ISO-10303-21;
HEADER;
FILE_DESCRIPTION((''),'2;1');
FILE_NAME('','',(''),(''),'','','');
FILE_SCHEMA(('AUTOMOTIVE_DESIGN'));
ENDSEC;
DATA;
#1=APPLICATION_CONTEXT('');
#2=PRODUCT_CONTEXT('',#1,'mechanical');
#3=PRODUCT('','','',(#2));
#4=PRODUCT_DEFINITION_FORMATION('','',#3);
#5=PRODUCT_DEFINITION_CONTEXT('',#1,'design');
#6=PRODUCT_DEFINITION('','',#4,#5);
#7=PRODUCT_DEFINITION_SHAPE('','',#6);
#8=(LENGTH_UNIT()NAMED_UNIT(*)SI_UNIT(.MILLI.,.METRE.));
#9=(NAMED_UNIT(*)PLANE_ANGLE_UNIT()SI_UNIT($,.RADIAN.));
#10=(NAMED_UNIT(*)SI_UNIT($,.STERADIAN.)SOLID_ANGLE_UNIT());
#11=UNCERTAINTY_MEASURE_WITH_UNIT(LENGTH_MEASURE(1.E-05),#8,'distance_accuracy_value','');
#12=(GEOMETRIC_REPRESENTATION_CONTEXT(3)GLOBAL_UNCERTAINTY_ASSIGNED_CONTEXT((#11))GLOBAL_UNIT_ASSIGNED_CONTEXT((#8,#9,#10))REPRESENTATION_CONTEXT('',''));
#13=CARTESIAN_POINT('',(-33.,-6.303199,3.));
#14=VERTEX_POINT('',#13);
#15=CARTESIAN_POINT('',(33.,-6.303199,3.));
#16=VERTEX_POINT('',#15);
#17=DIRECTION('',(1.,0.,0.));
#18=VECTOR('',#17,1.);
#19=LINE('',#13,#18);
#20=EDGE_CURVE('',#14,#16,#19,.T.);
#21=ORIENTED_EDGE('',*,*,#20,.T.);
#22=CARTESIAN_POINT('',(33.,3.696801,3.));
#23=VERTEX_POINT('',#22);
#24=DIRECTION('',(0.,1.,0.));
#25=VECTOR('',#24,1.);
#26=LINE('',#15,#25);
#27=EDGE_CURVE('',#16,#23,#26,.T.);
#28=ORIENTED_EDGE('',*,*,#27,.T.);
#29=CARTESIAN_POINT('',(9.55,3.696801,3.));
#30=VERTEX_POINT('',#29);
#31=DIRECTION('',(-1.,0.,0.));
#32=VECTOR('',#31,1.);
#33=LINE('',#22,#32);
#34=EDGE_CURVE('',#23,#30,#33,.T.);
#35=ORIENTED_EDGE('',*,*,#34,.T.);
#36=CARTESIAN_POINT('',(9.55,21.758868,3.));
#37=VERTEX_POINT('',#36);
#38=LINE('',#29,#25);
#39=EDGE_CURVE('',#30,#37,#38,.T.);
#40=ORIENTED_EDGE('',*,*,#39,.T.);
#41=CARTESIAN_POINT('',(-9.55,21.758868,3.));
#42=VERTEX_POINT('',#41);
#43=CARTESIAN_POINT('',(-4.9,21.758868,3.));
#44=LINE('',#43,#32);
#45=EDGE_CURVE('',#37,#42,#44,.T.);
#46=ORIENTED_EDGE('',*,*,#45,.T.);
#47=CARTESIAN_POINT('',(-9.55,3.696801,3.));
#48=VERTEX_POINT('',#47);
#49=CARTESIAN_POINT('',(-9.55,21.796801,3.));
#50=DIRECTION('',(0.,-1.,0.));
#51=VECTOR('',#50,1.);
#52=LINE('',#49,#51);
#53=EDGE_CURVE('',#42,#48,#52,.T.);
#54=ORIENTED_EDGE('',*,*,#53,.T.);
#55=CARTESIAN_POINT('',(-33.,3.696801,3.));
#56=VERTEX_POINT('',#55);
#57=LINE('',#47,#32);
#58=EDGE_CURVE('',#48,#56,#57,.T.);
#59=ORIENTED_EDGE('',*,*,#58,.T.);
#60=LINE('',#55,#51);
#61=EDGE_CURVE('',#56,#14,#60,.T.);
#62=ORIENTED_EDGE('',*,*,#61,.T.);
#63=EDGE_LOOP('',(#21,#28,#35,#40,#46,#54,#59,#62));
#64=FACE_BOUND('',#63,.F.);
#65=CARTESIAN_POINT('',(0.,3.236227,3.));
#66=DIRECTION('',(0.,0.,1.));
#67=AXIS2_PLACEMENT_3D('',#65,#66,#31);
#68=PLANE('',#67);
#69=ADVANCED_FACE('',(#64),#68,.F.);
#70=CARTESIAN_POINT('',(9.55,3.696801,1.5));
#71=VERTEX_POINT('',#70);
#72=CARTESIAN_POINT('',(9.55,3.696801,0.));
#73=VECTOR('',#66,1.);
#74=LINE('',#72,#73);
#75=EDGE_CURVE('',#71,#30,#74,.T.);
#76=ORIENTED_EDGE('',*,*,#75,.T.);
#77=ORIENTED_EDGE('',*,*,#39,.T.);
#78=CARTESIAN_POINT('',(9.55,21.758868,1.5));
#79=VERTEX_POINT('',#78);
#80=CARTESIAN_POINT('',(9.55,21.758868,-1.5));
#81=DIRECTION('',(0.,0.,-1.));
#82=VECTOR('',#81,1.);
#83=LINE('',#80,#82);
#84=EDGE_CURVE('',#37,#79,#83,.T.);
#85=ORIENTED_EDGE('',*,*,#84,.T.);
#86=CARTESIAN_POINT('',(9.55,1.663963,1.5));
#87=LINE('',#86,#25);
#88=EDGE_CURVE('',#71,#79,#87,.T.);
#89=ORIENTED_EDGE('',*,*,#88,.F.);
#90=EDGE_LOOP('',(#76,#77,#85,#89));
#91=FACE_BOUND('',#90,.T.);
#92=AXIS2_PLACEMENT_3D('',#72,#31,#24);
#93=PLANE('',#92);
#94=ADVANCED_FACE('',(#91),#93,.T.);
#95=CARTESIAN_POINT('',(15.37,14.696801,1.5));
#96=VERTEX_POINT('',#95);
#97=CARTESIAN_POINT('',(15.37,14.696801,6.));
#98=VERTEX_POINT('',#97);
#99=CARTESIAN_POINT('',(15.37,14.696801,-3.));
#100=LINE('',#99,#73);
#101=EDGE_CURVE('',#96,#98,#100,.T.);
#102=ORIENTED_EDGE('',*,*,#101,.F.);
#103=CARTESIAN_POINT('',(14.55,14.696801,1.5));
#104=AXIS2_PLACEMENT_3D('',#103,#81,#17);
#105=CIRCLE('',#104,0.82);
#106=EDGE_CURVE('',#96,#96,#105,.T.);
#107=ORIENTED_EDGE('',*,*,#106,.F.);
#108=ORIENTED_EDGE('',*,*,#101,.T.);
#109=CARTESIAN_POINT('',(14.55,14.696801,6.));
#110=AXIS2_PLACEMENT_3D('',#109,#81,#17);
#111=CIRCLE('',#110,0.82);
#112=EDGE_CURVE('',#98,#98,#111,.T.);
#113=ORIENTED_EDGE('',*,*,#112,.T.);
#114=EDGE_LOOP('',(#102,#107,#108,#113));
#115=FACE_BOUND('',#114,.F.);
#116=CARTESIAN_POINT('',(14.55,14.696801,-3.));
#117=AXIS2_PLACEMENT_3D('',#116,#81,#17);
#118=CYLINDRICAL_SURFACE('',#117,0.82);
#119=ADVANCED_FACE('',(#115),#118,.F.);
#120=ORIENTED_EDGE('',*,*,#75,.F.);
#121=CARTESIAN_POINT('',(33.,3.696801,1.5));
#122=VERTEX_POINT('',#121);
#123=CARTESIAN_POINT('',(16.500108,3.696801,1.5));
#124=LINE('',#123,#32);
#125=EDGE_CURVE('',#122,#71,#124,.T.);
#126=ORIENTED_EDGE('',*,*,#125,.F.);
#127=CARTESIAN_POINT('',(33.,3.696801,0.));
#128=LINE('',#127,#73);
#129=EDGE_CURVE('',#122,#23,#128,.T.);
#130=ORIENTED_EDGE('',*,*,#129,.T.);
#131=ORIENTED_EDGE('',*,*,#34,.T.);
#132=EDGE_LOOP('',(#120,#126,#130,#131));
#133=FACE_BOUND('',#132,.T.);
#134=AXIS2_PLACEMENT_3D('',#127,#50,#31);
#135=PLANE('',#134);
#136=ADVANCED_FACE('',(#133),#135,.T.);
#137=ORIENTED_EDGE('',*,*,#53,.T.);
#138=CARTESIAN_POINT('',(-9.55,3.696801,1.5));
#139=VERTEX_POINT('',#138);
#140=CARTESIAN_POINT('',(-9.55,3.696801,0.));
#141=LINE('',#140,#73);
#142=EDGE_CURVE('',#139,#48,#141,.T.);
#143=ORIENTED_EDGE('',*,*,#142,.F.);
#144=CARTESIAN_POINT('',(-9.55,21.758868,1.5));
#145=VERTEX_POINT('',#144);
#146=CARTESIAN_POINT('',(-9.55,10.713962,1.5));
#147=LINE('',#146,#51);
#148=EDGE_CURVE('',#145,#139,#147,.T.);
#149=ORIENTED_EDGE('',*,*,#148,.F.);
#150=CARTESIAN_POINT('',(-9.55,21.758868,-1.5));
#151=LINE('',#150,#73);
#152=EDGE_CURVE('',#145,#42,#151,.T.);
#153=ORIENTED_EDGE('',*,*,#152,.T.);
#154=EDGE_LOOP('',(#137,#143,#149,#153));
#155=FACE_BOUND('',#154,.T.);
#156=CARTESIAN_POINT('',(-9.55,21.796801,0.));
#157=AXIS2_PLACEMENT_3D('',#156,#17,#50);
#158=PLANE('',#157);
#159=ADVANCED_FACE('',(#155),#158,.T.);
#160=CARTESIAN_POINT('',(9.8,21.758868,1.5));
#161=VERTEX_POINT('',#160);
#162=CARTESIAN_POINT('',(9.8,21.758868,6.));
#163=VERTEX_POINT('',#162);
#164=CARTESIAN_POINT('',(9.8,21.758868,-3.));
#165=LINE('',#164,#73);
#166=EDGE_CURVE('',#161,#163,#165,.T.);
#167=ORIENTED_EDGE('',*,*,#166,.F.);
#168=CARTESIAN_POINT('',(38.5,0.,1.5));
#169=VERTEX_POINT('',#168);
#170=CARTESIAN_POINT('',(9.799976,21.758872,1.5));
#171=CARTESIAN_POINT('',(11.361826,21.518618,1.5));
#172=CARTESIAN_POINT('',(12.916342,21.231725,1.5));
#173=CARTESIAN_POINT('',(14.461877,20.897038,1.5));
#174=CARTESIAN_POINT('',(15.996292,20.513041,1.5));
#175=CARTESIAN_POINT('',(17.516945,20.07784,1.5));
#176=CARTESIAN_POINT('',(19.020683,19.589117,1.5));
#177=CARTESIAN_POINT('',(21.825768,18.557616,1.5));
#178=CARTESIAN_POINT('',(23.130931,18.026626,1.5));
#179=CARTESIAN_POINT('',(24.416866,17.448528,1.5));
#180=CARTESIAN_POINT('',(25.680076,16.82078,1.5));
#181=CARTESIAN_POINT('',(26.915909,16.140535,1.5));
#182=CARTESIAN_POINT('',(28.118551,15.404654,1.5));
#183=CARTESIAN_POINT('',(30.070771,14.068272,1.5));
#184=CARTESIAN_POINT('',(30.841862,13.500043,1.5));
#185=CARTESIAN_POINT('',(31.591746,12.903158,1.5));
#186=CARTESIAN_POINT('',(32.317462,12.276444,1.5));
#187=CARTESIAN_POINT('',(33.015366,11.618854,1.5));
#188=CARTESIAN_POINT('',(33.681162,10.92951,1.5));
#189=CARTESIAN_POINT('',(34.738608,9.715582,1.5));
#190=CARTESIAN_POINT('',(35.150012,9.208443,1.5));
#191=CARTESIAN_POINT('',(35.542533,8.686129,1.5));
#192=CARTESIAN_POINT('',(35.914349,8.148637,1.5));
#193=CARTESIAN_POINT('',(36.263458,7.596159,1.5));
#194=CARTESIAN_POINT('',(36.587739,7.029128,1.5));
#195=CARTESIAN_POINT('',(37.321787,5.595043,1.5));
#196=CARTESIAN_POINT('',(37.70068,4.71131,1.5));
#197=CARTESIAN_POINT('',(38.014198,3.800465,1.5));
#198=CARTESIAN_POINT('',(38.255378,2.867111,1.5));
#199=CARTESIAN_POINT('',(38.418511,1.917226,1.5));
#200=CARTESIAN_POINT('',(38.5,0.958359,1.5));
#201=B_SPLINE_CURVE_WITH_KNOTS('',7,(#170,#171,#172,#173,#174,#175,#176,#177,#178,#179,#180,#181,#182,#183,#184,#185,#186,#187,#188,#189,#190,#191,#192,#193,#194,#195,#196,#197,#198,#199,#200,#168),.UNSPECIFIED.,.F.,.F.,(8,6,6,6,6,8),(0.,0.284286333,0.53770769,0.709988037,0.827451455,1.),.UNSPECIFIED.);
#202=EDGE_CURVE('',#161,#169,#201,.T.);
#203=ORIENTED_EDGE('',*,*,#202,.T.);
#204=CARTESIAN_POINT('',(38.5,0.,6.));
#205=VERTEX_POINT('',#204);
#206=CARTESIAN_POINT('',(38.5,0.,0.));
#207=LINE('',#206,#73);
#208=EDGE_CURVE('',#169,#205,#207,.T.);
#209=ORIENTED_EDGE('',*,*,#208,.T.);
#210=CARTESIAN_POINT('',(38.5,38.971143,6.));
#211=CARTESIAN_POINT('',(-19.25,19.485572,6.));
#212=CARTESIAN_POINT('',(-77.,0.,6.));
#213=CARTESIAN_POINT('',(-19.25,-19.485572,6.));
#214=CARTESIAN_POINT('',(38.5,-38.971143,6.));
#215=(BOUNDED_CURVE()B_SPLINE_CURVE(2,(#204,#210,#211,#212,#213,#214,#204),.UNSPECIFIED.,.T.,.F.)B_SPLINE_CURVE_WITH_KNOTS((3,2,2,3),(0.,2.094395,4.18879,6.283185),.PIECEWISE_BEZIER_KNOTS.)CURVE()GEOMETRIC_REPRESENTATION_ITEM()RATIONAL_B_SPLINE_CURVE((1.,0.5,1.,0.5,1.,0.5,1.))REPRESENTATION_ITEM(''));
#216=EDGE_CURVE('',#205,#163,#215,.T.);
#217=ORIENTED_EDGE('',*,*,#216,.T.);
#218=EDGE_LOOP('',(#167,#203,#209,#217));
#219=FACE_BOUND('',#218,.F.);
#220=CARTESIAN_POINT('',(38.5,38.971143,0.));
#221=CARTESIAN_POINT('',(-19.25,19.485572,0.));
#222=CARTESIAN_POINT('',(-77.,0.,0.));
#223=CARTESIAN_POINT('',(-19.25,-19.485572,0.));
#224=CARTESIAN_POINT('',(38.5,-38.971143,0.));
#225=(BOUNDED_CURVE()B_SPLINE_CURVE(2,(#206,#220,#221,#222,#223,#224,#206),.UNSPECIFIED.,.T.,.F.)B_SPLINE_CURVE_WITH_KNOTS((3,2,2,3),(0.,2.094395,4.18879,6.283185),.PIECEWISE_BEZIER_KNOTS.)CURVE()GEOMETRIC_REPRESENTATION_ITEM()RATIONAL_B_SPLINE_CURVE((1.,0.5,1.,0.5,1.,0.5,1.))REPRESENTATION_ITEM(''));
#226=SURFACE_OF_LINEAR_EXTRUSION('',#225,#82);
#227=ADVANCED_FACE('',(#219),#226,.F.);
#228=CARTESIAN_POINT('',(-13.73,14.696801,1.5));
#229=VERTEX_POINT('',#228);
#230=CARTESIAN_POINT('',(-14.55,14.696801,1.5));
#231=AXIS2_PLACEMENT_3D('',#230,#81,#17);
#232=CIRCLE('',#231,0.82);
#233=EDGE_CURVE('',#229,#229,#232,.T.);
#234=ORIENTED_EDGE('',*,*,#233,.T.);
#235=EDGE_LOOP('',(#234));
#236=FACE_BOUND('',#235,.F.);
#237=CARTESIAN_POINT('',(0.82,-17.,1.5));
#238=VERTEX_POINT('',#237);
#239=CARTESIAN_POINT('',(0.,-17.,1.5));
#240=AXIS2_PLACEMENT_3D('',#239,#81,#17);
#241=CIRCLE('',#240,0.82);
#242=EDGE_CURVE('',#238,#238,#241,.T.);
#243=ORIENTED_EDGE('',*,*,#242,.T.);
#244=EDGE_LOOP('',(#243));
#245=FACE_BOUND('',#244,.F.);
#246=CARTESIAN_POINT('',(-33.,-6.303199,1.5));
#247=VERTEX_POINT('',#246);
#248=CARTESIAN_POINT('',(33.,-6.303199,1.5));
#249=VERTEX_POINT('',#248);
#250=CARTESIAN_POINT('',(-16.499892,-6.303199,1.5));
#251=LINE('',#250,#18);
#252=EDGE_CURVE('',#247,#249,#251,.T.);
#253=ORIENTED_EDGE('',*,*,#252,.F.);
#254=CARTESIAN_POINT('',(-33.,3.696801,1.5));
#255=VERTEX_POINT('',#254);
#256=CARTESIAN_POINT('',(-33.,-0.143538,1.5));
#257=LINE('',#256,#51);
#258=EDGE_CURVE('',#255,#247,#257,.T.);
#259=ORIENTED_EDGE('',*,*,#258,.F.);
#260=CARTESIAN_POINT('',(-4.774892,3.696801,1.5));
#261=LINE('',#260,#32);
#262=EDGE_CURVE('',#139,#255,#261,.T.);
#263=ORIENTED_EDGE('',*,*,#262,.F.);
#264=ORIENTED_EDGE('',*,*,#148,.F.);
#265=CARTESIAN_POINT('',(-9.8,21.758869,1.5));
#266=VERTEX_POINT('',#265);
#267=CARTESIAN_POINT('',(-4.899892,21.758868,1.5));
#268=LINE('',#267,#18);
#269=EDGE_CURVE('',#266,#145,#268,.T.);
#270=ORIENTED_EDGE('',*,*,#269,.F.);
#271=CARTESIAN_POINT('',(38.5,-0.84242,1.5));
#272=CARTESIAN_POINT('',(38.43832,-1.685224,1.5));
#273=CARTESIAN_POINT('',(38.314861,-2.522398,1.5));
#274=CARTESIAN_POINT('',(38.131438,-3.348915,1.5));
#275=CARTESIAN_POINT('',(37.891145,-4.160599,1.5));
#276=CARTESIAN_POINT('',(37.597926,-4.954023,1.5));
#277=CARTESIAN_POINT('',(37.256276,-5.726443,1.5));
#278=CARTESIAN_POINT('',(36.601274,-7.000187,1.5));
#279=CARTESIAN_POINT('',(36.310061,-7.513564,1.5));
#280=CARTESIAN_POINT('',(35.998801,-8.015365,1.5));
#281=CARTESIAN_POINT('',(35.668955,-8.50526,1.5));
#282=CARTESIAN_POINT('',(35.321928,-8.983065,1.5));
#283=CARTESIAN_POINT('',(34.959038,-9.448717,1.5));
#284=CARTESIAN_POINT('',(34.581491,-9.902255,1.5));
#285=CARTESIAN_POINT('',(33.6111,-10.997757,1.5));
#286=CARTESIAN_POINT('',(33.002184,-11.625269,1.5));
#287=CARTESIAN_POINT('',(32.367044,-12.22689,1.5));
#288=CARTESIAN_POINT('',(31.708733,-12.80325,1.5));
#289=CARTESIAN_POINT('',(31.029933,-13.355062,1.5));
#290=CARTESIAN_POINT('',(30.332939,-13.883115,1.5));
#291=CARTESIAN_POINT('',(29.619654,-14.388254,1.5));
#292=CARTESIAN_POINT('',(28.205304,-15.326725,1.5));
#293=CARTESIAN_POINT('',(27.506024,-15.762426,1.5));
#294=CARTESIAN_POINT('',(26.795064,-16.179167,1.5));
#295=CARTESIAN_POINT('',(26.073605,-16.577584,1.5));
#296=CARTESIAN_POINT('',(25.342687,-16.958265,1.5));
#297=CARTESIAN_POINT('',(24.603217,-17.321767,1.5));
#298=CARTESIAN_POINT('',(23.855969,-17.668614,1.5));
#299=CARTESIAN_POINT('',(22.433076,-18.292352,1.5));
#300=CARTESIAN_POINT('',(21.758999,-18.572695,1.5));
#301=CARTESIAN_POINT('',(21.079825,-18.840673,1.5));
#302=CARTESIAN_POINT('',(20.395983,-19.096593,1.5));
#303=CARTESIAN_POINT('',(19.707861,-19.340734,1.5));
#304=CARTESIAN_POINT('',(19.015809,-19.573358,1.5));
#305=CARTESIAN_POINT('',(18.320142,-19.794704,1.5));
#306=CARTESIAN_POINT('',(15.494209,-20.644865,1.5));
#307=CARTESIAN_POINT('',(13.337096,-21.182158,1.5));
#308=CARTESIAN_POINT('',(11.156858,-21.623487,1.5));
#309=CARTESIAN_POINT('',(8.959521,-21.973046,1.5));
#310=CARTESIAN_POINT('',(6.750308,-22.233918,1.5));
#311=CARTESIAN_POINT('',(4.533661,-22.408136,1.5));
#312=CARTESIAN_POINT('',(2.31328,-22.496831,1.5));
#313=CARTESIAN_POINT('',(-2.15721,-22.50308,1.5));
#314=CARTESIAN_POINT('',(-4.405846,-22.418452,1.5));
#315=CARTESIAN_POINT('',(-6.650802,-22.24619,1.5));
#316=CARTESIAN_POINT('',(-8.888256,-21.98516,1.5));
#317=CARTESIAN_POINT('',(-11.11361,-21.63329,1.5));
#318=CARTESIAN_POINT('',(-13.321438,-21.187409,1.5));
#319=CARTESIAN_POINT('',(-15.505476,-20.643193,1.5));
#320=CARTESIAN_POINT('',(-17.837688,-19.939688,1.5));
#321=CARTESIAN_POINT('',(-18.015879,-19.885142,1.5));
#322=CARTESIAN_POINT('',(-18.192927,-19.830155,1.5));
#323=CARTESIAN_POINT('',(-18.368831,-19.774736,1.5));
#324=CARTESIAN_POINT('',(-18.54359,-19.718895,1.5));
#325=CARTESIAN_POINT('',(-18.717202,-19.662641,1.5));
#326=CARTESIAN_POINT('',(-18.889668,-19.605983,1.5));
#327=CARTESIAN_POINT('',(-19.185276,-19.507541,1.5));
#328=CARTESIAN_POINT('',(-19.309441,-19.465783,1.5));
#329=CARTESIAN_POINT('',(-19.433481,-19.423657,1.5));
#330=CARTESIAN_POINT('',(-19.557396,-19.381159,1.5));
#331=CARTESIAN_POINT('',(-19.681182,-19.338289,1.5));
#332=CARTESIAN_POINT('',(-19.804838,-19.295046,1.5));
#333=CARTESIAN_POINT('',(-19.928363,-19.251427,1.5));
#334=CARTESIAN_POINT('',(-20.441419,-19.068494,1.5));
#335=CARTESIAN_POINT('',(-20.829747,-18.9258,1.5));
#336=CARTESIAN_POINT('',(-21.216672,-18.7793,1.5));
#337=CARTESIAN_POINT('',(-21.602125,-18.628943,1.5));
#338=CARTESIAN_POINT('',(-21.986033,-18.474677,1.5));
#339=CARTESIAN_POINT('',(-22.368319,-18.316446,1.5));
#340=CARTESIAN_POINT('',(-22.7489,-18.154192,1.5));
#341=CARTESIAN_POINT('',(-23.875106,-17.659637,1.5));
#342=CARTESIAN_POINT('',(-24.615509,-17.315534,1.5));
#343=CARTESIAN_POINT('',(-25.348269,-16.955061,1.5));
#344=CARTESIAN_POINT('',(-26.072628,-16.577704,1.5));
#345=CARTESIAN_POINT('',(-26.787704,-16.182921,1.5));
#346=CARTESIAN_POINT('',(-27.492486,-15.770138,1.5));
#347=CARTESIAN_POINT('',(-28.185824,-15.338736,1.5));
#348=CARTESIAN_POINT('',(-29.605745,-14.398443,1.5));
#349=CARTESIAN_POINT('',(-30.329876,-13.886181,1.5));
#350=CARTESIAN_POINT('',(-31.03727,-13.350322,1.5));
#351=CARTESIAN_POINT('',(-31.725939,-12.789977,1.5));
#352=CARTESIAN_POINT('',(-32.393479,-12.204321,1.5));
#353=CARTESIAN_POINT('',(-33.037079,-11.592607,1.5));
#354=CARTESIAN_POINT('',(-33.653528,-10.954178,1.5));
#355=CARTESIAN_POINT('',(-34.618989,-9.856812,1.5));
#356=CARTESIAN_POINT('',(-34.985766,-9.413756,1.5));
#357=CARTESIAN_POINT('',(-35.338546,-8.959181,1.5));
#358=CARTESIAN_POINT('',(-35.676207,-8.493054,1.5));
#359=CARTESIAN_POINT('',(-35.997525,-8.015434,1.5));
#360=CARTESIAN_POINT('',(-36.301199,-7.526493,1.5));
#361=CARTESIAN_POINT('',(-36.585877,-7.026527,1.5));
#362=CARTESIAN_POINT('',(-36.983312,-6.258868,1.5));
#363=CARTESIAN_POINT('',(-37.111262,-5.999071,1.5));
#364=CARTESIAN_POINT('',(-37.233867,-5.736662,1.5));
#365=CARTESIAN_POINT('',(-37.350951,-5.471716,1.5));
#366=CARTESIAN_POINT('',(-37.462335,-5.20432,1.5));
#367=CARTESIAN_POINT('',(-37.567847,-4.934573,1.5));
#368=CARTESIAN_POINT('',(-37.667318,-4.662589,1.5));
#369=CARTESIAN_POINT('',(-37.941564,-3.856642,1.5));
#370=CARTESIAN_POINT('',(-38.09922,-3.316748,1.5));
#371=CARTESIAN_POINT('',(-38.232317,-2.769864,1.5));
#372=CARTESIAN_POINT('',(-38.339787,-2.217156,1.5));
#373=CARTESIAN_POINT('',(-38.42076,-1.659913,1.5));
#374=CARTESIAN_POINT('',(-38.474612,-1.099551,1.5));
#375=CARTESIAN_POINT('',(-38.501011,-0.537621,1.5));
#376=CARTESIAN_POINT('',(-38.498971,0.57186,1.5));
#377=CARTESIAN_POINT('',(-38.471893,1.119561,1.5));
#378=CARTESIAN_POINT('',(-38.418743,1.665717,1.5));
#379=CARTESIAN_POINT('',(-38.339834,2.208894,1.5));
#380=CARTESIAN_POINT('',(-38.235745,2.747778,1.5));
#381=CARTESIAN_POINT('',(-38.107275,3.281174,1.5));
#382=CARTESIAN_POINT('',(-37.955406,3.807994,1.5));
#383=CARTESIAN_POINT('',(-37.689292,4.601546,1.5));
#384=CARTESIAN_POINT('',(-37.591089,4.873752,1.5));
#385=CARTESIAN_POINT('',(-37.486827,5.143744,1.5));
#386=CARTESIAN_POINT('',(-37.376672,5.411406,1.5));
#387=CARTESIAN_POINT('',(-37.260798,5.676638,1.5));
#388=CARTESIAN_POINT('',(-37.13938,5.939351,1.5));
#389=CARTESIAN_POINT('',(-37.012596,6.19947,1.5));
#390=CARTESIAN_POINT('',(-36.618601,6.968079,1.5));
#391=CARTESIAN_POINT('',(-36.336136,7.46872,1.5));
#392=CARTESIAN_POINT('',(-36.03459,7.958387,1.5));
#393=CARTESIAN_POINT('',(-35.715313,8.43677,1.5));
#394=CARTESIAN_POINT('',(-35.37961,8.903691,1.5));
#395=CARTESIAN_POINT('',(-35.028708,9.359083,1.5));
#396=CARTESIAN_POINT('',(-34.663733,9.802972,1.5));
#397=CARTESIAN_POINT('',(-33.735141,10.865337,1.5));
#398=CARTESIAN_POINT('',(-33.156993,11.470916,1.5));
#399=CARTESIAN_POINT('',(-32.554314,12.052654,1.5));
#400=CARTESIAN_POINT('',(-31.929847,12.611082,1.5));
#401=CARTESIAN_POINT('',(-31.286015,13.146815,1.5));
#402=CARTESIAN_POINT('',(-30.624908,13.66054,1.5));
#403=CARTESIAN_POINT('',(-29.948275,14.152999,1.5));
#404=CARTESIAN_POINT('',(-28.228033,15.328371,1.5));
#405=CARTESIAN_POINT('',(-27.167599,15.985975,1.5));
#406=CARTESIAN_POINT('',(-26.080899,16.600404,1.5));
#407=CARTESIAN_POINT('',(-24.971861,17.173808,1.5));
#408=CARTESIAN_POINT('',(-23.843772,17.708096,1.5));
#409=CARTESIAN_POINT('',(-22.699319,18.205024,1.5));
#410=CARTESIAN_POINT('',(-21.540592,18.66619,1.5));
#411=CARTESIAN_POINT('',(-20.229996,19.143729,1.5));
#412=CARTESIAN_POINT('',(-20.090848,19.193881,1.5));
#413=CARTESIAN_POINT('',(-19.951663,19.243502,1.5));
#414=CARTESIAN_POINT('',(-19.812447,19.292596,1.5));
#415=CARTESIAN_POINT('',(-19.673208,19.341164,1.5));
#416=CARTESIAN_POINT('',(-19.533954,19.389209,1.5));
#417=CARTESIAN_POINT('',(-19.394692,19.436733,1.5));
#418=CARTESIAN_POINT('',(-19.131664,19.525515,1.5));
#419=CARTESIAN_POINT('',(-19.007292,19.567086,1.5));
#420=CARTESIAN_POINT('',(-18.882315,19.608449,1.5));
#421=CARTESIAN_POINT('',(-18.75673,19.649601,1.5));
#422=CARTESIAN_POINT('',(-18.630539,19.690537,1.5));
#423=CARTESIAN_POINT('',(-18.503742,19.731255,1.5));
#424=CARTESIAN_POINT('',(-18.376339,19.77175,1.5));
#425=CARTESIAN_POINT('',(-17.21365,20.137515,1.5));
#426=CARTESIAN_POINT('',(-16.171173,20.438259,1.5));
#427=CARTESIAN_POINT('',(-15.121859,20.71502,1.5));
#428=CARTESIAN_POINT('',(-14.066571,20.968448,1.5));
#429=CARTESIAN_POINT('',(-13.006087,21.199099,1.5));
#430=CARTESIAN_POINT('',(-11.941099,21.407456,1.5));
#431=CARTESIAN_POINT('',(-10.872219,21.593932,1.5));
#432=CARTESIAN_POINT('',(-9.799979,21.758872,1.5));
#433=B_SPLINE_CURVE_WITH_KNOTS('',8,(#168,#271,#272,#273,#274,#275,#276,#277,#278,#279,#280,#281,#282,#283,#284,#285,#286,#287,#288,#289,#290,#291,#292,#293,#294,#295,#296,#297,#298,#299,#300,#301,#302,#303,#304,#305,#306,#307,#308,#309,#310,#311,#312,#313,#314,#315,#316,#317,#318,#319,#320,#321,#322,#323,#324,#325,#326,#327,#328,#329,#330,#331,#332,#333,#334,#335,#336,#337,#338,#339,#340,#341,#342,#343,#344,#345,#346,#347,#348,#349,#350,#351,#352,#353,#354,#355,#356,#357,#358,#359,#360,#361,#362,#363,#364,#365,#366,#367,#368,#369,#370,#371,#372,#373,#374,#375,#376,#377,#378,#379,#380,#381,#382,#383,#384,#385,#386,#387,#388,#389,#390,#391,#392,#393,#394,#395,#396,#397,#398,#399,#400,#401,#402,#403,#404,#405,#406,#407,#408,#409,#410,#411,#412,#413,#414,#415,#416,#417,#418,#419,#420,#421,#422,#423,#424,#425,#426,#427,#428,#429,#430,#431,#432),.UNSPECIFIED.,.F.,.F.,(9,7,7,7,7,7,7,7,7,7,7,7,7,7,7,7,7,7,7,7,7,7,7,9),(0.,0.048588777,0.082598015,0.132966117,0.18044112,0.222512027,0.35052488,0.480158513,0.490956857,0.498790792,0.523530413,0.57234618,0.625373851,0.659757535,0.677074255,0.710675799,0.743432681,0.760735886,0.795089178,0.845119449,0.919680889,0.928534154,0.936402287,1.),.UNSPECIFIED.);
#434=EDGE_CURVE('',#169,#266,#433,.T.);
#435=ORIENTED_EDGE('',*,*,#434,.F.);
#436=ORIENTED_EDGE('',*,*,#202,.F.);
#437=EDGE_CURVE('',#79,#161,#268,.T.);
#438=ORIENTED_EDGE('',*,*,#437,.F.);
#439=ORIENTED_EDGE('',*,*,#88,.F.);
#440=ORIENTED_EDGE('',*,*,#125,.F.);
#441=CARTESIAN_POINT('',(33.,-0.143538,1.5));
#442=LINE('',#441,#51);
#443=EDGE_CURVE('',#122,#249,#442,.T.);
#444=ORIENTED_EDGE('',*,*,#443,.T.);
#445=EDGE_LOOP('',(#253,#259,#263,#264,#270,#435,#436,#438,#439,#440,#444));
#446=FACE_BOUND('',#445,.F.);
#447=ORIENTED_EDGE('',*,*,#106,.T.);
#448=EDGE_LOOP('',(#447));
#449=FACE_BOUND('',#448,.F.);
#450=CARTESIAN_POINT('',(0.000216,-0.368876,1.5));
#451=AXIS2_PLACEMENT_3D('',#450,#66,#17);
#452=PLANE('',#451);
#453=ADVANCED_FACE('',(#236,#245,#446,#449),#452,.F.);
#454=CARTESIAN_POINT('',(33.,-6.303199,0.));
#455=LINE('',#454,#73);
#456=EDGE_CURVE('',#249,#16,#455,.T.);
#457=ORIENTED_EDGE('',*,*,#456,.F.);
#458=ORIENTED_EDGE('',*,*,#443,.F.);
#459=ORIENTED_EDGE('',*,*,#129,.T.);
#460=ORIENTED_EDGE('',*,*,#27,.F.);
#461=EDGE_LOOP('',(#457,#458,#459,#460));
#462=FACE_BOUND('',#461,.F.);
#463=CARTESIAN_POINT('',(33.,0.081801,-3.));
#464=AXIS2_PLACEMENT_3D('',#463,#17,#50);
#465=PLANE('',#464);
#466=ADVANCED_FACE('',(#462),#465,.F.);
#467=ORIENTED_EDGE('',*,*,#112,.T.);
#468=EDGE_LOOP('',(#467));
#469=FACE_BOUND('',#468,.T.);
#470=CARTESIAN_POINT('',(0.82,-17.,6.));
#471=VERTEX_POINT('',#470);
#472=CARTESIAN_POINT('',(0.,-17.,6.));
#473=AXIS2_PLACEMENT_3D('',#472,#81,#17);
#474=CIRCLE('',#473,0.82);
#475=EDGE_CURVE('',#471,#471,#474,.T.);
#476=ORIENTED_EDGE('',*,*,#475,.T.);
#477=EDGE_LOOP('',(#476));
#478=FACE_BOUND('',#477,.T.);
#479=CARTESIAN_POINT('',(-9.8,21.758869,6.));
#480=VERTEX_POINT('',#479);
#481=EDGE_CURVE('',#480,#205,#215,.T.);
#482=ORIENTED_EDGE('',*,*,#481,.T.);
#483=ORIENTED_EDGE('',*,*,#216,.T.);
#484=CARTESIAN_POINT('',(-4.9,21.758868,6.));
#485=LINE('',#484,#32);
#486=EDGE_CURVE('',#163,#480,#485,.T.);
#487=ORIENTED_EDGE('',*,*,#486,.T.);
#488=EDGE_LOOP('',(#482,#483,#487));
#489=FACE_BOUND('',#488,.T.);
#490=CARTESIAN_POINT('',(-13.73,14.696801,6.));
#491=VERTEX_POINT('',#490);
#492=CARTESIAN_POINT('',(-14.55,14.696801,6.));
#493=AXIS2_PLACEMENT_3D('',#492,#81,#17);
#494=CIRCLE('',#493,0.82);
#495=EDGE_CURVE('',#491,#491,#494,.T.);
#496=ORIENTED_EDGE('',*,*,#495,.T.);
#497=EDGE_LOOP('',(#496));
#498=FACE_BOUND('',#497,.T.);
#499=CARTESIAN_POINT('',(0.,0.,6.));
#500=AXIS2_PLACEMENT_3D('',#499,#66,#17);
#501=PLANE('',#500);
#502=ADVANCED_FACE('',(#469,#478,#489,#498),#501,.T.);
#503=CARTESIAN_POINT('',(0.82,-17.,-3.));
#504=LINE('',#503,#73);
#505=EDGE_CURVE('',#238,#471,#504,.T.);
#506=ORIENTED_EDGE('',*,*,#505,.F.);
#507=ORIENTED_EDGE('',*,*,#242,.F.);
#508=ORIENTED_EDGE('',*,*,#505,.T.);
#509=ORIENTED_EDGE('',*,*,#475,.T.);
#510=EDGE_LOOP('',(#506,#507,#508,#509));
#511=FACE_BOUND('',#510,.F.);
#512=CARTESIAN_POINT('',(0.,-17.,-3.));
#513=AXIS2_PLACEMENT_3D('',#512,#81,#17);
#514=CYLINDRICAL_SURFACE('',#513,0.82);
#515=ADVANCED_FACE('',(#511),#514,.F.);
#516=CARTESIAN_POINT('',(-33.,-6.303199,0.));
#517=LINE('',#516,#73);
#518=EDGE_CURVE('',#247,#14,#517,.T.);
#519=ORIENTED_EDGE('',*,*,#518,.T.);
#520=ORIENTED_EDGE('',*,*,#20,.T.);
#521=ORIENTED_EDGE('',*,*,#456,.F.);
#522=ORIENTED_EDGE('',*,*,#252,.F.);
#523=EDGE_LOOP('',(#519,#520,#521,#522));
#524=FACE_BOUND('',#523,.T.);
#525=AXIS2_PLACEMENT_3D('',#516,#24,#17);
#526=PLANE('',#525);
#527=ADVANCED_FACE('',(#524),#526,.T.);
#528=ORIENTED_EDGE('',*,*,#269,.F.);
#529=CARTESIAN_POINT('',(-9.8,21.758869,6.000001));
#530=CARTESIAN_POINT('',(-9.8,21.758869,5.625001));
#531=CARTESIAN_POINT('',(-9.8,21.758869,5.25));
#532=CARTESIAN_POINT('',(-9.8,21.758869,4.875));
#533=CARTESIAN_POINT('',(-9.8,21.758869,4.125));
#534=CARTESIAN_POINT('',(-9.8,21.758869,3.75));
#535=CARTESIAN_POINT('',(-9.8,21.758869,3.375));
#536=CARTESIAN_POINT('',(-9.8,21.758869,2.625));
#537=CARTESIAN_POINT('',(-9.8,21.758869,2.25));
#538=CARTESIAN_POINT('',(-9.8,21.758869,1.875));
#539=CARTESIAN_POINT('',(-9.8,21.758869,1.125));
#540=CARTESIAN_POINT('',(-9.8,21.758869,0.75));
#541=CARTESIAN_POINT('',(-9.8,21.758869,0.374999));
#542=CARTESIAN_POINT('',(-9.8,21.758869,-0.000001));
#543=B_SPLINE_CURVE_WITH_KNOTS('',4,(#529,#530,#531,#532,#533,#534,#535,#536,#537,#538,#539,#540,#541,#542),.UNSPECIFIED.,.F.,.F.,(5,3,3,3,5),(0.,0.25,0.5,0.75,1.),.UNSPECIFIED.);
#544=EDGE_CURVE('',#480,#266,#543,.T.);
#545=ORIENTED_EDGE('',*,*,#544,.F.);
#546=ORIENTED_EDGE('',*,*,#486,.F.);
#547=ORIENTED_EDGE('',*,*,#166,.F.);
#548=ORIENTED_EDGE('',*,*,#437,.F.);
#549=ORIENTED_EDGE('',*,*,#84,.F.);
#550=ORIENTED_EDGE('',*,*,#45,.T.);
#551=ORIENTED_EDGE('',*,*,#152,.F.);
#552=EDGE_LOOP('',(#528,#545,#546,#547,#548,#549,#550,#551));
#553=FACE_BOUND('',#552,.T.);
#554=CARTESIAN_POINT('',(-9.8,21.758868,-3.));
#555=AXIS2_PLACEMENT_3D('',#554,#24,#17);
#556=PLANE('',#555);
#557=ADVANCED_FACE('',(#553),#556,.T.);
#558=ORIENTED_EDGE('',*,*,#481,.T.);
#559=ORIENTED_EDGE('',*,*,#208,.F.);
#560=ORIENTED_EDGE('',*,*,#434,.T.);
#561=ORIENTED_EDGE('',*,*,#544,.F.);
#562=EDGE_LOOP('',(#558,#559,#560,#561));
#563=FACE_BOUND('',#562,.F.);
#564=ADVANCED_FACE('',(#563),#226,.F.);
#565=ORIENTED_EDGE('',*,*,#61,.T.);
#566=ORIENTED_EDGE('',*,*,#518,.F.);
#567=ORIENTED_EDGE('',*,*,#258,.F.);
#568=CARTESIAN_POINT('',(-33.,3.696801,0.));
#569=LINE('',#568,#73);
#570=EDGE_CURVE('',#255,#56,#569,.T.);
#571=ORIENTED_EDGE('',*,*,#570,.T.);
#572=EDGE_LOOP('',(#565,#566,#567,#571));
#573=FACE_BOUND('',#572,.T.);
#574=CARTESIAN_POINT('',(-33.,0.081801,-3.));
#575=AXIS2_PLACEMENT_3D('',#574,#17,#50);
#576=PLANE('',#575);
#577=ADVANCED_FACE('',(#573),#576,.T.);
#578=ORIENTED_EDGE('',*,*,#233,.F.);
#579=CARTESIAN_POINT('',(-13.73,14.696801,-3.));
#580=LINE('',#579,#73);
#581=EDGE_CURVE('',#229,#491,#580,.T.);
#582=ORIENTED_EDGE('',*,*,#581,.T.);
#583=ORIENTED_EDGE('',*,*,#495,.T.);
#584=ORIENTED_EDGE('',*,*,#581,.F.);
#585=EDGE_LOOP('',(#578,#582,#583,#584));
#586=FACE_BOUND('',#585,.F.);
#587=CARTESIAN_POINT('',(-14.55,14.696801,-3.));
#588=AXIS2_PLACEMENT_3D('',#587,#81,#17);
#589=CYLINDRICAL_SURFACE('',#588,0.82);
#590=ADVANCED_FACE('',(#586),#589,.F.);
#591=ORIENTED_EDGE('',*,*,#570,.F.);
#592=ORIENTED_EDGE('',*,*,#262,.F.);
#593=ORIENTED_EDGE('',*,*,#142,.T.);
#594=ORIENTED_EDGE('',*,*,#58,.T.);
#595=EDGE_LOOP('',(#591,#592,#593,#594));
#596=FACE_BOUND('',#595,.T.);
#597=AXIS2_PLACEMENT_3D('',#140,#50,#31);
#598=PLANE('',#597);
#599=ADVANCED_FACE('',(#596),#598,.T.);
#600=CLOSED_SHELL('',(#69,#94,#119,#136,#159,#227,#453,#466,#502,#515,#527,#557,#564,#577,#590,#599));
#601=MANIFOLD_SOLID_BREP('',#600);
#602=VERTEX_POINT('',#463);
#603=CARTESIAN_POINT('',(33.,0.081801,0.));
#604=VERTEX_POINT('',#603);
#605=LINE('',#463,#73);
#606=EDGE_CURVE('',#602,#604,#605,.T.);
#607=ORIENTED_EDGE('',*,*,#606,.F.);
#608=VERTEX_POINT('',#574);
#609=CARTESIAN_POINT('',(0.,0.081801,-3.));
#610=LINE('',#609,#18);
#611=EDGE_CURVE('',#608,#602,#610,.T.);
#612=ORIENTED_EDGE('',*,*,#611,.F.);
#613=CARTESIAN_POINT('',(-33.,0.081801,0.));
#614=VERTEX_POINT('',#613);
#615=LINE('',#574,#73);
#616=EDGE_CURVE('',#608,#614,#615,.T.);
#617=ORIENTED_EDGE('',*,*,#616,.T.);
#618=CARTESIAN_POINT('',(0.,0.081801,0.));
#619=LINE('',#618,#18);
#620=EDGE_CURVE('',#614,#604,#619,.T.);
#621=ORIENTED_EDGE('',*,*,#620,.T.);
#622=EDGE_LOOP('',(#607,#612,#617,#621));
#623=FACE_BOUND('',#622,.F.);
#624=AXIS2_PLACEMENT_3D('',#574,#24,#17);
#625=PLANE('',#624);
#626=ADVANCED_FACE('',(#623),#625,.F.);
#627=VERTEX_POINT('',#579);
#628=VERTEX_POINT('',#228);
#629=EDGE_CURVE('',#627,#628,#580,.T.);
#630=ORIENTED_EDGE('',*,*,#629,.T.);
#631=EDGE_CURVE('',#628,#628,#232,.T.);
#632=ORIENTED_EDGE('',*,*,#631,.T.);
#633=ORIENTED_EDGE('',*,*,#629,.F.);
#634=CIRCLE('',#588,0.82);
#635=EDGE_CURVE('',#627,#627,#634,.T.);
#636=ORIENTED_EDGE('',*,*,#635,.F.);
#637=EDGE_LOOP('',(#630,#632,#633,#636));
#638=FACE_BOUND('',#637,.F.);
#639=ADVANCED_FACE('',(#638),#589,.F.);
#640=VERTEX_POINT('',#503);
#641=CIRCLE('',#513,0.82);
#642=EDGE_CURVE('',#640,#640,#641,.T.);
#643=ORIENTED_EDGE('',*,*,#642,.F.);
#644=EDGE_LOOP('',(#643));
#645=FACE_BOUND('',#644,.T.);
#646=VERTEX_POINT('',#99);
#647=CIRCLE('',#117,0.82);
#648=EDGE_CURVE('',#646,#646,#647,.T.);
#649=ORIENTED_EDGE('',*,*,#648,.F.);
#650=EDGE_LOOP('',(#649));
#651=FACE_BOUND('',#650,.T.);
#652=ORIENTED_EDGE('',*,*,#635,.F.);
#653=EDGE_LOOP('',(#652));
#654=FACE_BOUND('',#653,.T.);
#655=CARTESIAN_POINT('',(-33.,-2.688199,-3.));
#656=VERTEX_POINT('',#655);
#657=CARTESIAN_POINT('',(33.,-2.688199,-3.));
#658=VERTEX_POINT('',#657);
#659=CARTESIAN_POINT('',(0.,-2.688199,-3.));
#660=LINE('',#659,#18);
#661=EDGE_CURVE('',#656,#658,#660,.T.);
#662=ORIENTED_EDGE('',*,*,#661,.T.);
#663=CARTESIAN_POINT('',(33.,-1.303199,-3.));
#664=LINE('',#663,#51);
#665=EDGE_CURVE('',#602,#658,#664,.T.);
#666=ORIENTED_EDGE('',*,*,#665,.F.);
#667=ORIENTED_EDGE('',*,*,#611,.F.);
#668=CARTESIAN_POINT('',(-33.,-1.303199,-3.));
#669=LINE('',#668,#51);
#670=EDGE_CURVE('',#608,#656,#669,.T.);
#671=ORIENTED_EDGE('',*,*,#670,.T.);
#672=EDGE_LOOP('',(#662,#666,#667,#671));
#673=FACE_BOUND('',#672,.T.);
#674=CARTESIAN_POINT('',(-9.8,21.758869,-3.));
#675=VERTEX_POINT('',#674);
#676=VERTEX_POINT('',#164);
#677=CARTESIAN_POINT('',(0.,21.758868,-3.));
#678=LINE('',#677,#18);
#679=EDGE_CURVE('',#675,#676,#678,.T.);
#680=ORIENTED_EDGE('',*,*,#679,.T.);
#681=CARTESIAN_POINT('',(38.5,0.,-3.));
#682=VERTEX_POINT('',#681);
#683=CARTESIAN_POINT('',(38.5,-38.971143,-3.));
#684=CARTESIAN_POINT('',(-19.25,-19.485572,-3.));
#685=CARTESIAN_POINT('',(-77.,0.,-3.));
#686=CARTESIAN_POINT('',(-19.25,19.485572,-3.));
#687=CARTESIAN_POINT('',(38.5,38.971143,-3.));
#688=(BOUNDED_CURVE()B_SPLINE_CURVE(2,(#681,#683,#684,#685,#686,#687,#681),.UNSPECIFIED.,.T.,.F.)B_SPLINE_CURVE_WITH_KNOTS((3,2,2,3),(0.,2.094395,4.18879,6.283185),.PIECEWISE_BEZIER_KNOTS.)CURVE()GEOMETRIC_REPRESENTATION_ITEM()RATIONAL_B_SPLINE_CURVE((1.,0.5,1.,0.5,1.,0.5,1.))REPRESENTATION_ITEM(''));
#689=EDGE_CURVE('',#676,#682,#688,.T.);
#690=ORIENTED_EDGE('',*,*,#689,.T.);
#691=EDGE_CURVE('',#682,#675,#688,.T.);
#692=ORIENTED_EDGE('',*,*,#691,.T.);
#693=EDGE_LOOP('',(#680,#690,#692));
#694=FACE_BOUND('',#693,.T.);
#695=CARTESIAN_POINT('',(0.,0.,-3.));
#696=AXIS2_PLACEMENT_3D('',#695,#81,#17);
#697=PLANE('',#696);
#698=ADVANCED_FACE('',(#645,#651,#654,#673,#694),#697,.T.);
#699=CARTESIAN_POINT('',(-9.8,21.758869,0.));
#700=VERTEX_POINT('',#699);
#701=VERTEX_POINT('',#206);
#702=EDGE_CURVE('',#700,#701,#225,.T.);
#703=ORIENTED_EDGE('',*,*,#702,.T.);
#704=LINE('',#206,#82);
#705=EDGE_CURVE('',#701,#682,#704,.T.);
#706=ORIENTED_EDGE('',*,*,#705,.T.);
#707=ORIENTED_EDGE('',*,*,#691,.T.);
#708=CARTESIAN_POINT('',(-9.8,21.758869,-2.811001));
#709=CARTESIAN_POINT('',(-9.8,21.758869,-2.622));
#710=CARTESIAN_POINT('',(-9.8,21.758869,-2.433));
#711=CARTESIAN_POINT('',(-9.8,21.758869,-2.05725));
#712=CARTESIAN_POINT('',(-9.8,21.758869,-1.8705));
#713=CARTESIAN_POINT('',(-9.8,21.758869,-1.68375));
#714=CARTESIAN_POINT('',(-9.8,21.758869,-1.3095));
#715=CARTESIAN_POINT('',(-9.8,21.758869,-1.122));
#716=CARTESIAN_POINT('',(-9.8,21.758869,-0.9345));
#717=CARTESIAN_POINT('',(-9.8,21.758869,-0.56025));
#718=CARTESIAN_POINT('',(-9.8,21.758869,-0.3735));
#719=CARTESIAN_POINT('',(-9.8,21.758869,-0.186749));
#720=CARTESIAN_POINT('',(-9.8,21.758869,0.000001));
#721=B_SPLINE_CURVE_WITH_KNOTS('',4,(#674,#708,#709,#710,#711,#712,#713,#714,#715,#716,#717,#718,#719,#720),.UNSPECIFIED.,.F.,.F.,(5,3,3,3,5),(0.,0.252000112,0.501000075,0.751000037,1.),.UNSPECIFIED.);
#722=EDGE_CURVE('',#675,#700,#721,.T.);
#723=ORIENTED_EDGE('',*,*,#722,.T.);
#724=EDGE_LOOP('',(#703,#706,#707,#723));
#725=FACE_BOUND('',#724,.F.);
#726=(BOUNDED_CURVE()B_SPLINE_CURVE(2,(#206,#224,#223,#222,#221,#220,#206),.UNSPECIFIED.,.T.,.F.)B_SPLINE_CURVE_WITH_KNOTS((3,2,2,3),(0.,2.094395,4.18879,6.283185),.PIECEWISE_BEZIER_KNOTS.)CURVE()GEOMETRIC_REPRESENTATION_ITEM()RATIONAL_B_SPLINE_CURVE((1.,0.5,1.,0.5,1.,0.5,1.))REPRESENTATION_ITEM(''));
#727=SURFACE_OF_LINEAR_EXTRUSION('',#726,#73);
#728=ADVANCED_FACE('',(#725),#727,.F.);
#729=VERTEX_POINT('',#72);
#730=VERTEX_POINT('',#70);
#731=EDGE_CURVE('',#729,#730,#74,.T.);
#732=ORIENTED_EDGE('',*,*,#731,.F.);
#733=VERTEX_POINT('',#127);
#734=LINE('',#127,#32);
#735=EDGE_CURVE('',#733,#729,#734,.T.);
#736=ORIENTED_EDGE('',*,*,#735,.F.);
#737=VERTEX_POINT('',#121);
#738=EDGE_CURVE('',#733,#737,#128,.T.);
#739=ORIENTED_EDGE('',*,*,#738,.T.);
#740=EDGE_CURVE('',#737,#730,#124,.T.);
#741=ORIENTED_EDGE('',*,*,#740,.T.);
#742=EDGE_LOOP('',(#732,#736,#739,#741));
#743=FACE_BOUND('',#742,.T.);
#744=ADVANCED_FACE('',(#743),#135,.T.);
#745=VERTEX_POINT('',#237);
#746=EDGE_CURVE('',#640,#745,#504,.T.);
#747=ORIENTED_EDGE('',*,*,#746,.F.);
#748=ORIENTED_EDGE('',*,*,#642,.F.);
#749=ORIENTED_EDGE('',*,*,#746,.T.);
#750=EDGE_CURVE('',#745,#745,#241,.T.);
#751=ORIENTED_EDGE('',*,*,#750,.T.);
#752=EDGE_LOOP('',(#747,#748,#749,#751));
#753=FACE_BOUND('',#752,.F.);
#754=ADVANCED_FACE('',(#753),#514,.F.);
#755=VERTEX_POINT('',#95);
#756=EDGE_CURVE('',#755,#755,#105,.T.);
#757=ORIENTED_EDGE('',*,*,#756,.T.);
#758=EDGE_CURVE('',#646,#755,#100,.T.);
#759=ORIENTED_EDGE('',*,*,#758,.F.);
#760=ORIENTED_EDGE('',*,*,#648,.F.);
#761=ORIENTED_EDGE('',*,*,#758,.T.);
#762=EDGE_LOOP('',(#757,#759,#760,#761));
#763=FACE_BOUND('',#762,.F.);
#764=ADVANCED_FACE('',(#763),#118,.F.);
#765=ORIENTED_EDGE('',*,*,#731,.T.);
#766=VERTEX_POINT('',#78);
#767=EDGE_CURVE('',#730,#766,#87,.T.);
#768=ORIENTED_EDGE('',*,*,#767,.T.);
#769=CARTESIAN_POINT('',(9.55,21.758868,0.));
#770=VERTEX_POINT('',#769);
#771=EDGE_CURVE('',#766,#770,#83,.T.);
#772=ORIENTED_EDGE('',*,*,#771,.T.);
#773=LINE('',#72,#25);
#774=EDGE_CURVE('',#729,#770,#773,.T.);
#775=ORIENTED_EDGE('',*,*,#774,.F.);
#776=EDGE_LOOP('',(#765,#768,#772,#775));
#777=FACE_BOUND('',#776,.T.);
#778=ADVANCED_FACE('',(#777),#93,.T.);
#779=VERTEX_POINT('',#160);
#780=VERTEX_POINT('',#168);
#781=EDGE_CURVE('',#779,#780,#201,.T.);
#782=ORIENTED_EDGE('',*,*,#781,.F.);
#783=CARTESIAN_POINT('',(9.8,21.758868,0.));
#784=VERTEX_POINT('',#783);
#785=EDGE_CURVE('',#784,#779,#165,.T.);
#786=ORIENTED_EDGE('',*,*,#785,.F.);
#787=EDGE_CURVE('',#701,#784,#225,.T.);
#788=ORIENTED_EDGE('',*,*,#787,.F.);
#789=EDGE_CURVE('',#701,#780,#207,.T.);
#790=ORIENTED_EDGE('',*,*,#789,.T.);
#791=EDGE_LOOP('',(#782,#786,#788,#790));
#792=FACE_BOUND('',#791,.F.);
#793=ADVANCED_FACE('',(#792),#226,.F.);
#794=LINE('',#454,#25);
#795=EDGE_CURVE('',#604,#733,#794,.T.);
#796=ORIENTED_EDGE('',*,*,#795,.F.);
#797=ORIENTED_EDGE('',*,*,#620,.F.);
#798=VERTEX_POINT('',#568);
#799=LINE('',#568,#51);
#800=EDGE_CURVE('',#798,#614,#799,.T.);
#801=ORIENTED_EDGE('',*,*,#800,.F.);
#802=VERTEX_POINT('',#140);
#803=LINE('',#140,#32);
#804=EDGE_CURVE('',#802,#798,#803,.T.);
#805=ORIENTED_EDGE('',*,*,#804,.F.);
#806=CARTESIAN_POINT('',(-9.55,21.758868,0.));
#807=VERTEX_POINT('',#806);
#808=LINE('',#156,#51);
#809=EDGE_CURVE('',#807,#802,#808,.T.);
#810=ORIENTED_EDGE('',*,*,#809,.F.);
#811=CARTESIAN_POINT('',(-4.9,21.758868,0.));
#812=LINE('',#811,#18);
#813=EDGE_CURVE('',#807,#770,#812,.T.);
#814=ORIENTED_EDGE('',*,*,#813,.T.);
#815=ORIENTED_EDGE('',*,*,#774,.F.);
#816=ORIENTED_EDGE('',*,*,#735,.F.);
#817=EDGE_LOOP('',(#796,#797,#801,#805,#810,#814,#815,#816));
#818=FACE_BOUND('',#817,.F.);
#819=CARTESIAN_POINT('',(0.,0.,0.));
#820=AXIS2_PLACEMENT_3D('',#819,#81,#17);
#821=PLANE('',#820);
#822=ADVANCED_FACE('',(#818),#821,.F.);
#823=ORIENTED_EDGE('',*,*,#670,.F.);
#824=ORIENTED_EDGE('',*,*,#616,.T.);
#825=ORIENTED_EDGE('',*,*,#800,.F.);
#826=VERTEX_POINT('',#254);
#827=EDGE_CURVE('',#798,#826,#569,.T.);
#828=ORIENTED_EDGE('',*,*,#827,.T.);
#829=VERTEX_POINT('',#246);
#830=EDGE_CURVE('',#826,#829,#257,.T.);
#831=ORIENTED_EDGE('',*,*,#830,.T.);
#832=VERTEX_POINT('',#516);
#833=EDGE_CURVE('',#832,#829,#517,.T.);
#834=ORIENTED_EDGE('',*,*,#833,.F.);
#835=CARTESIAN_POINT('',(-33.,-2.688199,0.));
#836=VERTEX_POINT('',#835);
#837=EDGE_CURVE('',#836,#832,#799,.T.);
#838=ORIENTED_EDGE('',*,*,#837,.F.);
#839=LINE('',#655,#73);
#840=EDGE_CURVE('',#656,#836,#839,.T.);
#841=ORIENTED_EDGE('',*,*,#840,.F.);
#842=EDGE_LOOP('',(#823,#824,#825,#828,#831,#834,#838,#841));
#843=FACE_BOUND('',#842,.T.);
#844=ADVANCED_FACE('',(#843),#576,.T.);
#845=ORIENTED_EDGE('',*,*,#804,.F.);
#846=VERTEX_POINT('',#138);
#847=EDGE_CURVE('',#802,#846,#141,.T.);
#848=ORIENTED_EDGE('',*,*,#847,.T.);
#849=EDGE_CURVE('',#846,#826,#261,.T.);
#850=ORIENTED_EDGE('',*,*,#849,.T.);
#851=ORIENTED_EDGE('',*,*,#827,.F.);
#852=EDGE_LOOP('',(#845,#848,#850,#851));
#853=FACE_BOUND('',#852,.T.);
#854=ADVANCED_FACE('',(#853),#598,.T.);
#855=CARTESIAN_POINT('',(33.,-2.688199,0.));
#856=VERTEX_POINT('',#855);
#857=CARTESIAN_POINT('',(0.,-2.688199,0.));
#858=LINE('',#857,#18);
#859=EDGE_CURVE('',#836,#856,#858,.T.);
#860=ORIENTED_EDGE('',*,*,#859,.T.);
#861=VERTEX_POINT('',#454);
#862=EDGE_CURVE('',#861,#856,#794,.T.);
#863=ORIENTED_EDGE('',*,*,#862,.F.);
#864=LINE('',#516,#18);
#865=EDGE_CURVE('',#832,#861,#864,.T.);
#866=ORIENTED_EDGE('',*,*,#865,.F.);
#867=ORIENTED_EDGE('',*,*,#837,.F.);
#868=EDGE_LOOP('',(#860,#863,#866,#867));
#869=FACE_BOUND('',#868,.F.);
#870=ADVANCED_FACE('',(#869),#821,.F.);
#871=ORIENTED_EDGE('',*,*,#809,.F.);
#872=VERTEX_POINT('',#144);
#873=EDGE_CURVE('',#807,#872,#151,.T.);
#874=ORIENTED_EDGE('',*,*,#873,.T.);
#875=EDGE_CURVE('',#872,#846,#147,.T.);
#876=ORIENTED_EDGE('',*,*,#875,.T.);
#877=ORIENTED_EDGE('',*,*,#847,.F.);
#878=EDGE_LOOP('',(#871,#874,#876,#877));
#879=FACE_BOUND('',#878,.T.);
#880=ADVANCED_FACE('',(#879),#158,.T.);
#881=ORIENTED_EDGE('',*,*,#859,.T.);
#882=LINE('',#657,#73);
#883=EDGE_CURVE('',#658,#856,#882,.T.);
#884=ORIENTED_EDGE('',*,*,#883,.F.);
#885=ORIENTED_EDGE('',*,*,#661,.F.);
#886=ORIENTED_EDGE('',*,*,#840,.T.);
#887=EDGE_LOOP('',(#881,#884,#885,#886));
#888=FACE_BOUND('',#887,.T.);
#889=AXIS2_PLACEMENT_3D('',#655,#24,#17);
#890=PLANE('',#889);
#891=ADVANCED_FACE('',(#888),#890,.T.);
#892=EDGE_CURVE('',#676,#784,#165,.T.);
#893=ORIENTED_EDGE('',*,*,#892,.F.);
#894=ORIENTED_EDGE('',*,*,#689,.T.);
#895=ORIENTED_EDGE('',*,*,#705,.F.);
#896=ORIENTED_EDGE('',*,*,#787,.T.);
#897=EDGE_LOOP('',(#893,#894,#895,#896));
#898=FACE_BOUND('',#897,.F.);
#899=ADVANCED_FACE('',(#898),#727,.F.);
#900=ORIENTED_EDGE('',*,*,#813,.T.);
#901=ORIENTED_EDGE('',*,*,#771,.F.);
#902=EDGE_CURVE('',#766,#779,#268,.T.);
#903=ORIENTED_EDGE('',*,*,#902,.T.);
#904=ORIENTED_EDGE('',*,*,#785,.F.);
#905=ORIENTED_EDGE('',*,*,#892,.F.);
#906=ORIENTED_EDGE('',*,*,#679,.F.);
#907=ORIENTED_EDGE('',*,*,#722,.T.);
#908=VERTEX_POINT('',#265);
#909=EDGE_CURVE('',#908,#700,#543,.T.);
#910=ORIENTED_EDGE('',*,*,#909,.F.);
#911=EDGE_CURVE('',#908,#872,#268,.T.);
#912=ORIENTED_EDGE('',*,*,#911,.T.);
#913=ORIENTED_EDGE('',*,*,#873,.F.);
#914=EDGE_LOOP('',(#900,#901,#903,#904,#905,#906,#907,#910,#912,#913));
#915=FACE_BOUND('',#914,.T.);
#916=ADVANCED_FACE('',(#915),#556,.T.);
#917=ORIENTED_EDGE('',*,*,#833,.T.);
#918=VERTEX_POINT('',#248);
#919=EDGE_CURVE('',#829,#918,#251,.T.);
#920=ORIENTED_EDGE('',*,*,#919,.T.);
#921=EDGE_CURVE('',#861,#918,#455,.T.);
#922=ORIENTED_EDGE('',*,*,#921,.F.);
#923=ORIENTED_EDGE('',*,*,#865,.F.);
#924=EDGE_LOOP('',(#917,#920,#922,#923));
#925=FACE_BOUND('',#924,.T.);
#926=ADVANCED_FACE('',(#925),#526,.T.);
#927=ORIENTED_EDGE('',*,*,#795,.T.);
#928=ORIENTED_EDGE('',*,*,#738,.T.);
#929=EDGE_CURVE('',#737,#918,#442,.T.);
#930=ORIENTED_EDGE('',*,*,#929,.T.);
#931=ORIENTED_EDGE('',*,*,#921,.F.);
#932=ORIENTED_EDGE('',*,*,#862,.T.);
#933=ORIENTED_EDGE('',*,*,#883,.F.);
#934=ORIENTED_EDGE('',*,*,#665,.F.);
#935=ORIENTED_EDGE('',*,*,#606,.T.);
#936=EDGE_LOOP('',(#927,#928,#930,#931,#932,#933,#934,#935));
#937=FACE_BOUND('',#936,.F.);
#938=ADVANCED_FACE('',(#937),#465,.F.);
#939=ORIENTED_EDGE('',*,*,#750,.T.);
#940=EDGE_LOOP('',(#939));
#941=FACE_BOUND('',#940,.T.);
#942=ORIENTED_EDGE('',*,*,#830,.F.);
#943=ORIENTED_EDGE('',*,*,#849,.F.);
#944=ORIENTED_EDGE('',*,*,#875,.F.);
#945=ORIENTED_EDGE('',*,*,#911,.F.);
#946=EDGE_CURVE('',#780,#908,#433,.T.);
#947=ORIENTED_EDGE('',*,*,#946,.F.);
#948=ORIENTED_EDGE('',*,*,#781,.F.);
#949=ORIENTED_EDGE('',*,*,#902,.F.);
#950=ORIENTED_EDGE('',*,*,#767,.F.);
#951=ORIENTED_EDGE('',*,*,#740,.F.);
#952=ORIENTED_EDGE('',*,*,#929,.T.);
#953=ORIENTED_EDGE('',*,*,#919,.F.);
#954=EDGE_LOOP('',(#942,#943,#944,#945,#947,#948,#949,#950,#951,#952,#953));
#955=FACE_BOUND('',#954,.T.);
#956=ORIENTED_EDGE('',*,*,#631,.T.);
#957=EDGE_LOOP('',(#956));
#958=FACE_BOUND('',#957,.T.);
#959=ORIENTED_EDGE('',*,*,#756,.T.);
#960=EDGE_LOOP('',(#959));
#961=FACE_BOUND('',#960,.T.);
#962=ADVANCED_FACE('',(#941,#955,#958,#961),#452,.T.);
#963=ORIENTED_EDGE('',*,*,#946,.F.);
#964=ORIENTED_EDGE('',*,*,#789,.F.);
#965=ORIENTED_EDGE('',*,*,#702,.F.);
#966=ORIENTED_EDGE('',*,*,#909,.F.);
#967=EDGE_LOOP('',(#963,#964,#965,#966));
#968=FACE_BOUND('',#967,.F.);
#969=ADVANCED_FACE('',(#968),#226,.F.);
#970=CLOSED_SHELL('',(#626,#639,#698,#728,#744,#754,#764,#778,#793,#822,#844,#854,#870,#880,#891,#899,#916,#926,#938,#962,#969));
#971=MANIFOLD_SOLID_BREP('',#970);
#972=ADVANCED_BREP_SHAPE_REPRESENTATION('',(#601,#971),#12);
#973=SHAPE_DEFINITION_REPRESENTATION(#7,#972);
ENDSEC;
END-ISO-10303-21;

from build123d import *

# Parameters (mm, degrees)
BOX_BOTTOM_HALF_0_W     = 78.999568
BOX_BOTTOM_HALF_0_H     = 46.255487
BOX_BOTTOM_HALF_0_DEPTH = 5.5
PAD_DEPTH               = 6
POCKET_DEPTH            = 3
PAD001_DEPTH            = 3
SKETCH003_W             = 66
SKETCH003_H             = 2.77
POCKET001_DEPTH         = 3
SKETCH004_W             = 19.6
SKETCH004_H             = 1
POCKET002_DEPTH         = 9.001
SKETCH005_R             = 0.82
POCKET003_DEPTH         = 9.001


with BuildPart() as box_bottom_half_0_body:
    # box_bottom_half_0 → box_bottom_half_0 (new body)
    with BuildSketch(Plane(origin=(-39.499568, -23.496619, -4), x_dir=(1, 0, 0), z_dir=(0, 0, 1))):
        with Locations((39.499784, 23.127743)):
            Rectangle(BOX_BOTTOM_HALF_0_W, BOX_BOTTOM_HALF_0_H)
    extrude(amount=BOX_BOTTOM_HALF_0_DEPTH)


with BuildPart() as body:
    # Sketch → Pad (new body)
    with BuildSketch(Plane.XY):
        with BuildLine():
            add(Edge.make_bspline(
                [(38.5, 0), (38.5, 38.971143), (-19.25, 19.485572), (-77, 0), (-19.25, -19.485572), (38.5, -38.971143), (38.5, 0)],
                knots=[0, 0, 0, 2.094395, 2.094395, 4.18879, 4.18879, 6.283185, 6.283185, 6.283185], degree=2, weights=[1, 0.5, 1, 0.5, 1, 0.5, 1]))
        make_face()
    extrude(amount=PAD_DEPTH)

    # Sketch001 (on Face2 of Pad) → Pocket (cut)
    with BuildSketch(Plane(origin=(0, 0, 0), x_dir=(1, 0, 0), z_dir=(0, 0, -1))):
        Polygon((9.55, -3.696801), (9.55, -21.796801), (-9.55, -21.796801), (-9.55, -3.696801), (-33, -3.696801), (-33, 6.303199), (33, 6.303199), (33, -3.696801), align=None)
    extrude(amount=-POCKET_DEPTH, mode=Mode.SUBTRACT)

    # Sketch002 (on Face2 of Pocket) → Pad001 (join)
    with BuildSketch(Plane(origin=(0, 0, 0), x_dir=(1, 0, 0), z_dir=(0, 0, -1))):
        with BuildLine():
            add(Edge.make_bspline(
                [(38.5, 0), (38.5, 38.971143), (-19.25, 19.485572), (-77, 0), (-19.25, -19.485572), (38.5, -38.971143), (38.5, 0)],
                knots=[0, 0, 0, 2.094395, 2.094395, 4.18879, 4.18879, 6.283185, 6.283185, 6.283185], degree=2, weights=[1, 0.5, 1, 0.5, 1, 0.5, 1]))
        make_face()
    extrude(amount=PAD001_DEPTH)

    # Sketch003 (on Face4 of Pad001) → Pocket001 (cut)
    with BuildSketch(Plane(origin=(0, 0, -3), x_dir=(1, 0, 0), z_dir=(0, 0, -1))):
        with Locations((0, 1.303199)):
            Rectangle(SKETCH003_W, SKETCH003_H)
    extrude(amount=-POCKET001_DEPTH, mode=Mode.SUBTRACT)

    # Sketch004 (on Face4 of Pocket001) → Pocket002 (cut, through all)
    with BuildSketch(Plane(origin=(0, 0, -3), x_dir=(1, 0, 0), z_dir=(0, 0, -1))):
        with Locations((0, -22.258868)):
            Rectangle(SKETCH004_W, SKETCH004_H)
    extrude(amount=-POCKET002_DEPTH, mode=Mode.SUBTRACT)

    # Sketch005 (on Face7 of Pocket002) → Pocket003 (cut, through all)
    with BuildSketch(Plane(origin=(0, 0, -3), x_dir=(1, 0, 0), z_dir=(0, 0, -1))):
        with Locations((-14.55, -14.696801)):
            Circle(SKETCH005_R)
        with Locations((0, 17)):
            Circle(SKETCH005_R)
        with Locations((14.55, -14.696801)):
            Circle(SKETCH005_R)
    extrude(amount=-POCKET003_DEPTH, mode=Mode.SUBTRACT)


with BuildPart() as bottom_half_0_body:
    # bottom_half_0 base: copy of Body
    add(body.part)

    # bottom_half_0: intersect box_bottom_half_0 body
    add(box_bottom_half_0_body.part, mode=Mode.INTERSECT)


with BuildPart() as top_half_0_body:
    # top_half_0 base: copy of Body
    add(body.part)

    # top_half_0: cut box_bottom_half_0 body
    add(box_bottom_half_0_body.part, mode=Mode.SUBTRACT)


solid = Compound([bottom_half_0_body.part, top_half_0_body.part])
